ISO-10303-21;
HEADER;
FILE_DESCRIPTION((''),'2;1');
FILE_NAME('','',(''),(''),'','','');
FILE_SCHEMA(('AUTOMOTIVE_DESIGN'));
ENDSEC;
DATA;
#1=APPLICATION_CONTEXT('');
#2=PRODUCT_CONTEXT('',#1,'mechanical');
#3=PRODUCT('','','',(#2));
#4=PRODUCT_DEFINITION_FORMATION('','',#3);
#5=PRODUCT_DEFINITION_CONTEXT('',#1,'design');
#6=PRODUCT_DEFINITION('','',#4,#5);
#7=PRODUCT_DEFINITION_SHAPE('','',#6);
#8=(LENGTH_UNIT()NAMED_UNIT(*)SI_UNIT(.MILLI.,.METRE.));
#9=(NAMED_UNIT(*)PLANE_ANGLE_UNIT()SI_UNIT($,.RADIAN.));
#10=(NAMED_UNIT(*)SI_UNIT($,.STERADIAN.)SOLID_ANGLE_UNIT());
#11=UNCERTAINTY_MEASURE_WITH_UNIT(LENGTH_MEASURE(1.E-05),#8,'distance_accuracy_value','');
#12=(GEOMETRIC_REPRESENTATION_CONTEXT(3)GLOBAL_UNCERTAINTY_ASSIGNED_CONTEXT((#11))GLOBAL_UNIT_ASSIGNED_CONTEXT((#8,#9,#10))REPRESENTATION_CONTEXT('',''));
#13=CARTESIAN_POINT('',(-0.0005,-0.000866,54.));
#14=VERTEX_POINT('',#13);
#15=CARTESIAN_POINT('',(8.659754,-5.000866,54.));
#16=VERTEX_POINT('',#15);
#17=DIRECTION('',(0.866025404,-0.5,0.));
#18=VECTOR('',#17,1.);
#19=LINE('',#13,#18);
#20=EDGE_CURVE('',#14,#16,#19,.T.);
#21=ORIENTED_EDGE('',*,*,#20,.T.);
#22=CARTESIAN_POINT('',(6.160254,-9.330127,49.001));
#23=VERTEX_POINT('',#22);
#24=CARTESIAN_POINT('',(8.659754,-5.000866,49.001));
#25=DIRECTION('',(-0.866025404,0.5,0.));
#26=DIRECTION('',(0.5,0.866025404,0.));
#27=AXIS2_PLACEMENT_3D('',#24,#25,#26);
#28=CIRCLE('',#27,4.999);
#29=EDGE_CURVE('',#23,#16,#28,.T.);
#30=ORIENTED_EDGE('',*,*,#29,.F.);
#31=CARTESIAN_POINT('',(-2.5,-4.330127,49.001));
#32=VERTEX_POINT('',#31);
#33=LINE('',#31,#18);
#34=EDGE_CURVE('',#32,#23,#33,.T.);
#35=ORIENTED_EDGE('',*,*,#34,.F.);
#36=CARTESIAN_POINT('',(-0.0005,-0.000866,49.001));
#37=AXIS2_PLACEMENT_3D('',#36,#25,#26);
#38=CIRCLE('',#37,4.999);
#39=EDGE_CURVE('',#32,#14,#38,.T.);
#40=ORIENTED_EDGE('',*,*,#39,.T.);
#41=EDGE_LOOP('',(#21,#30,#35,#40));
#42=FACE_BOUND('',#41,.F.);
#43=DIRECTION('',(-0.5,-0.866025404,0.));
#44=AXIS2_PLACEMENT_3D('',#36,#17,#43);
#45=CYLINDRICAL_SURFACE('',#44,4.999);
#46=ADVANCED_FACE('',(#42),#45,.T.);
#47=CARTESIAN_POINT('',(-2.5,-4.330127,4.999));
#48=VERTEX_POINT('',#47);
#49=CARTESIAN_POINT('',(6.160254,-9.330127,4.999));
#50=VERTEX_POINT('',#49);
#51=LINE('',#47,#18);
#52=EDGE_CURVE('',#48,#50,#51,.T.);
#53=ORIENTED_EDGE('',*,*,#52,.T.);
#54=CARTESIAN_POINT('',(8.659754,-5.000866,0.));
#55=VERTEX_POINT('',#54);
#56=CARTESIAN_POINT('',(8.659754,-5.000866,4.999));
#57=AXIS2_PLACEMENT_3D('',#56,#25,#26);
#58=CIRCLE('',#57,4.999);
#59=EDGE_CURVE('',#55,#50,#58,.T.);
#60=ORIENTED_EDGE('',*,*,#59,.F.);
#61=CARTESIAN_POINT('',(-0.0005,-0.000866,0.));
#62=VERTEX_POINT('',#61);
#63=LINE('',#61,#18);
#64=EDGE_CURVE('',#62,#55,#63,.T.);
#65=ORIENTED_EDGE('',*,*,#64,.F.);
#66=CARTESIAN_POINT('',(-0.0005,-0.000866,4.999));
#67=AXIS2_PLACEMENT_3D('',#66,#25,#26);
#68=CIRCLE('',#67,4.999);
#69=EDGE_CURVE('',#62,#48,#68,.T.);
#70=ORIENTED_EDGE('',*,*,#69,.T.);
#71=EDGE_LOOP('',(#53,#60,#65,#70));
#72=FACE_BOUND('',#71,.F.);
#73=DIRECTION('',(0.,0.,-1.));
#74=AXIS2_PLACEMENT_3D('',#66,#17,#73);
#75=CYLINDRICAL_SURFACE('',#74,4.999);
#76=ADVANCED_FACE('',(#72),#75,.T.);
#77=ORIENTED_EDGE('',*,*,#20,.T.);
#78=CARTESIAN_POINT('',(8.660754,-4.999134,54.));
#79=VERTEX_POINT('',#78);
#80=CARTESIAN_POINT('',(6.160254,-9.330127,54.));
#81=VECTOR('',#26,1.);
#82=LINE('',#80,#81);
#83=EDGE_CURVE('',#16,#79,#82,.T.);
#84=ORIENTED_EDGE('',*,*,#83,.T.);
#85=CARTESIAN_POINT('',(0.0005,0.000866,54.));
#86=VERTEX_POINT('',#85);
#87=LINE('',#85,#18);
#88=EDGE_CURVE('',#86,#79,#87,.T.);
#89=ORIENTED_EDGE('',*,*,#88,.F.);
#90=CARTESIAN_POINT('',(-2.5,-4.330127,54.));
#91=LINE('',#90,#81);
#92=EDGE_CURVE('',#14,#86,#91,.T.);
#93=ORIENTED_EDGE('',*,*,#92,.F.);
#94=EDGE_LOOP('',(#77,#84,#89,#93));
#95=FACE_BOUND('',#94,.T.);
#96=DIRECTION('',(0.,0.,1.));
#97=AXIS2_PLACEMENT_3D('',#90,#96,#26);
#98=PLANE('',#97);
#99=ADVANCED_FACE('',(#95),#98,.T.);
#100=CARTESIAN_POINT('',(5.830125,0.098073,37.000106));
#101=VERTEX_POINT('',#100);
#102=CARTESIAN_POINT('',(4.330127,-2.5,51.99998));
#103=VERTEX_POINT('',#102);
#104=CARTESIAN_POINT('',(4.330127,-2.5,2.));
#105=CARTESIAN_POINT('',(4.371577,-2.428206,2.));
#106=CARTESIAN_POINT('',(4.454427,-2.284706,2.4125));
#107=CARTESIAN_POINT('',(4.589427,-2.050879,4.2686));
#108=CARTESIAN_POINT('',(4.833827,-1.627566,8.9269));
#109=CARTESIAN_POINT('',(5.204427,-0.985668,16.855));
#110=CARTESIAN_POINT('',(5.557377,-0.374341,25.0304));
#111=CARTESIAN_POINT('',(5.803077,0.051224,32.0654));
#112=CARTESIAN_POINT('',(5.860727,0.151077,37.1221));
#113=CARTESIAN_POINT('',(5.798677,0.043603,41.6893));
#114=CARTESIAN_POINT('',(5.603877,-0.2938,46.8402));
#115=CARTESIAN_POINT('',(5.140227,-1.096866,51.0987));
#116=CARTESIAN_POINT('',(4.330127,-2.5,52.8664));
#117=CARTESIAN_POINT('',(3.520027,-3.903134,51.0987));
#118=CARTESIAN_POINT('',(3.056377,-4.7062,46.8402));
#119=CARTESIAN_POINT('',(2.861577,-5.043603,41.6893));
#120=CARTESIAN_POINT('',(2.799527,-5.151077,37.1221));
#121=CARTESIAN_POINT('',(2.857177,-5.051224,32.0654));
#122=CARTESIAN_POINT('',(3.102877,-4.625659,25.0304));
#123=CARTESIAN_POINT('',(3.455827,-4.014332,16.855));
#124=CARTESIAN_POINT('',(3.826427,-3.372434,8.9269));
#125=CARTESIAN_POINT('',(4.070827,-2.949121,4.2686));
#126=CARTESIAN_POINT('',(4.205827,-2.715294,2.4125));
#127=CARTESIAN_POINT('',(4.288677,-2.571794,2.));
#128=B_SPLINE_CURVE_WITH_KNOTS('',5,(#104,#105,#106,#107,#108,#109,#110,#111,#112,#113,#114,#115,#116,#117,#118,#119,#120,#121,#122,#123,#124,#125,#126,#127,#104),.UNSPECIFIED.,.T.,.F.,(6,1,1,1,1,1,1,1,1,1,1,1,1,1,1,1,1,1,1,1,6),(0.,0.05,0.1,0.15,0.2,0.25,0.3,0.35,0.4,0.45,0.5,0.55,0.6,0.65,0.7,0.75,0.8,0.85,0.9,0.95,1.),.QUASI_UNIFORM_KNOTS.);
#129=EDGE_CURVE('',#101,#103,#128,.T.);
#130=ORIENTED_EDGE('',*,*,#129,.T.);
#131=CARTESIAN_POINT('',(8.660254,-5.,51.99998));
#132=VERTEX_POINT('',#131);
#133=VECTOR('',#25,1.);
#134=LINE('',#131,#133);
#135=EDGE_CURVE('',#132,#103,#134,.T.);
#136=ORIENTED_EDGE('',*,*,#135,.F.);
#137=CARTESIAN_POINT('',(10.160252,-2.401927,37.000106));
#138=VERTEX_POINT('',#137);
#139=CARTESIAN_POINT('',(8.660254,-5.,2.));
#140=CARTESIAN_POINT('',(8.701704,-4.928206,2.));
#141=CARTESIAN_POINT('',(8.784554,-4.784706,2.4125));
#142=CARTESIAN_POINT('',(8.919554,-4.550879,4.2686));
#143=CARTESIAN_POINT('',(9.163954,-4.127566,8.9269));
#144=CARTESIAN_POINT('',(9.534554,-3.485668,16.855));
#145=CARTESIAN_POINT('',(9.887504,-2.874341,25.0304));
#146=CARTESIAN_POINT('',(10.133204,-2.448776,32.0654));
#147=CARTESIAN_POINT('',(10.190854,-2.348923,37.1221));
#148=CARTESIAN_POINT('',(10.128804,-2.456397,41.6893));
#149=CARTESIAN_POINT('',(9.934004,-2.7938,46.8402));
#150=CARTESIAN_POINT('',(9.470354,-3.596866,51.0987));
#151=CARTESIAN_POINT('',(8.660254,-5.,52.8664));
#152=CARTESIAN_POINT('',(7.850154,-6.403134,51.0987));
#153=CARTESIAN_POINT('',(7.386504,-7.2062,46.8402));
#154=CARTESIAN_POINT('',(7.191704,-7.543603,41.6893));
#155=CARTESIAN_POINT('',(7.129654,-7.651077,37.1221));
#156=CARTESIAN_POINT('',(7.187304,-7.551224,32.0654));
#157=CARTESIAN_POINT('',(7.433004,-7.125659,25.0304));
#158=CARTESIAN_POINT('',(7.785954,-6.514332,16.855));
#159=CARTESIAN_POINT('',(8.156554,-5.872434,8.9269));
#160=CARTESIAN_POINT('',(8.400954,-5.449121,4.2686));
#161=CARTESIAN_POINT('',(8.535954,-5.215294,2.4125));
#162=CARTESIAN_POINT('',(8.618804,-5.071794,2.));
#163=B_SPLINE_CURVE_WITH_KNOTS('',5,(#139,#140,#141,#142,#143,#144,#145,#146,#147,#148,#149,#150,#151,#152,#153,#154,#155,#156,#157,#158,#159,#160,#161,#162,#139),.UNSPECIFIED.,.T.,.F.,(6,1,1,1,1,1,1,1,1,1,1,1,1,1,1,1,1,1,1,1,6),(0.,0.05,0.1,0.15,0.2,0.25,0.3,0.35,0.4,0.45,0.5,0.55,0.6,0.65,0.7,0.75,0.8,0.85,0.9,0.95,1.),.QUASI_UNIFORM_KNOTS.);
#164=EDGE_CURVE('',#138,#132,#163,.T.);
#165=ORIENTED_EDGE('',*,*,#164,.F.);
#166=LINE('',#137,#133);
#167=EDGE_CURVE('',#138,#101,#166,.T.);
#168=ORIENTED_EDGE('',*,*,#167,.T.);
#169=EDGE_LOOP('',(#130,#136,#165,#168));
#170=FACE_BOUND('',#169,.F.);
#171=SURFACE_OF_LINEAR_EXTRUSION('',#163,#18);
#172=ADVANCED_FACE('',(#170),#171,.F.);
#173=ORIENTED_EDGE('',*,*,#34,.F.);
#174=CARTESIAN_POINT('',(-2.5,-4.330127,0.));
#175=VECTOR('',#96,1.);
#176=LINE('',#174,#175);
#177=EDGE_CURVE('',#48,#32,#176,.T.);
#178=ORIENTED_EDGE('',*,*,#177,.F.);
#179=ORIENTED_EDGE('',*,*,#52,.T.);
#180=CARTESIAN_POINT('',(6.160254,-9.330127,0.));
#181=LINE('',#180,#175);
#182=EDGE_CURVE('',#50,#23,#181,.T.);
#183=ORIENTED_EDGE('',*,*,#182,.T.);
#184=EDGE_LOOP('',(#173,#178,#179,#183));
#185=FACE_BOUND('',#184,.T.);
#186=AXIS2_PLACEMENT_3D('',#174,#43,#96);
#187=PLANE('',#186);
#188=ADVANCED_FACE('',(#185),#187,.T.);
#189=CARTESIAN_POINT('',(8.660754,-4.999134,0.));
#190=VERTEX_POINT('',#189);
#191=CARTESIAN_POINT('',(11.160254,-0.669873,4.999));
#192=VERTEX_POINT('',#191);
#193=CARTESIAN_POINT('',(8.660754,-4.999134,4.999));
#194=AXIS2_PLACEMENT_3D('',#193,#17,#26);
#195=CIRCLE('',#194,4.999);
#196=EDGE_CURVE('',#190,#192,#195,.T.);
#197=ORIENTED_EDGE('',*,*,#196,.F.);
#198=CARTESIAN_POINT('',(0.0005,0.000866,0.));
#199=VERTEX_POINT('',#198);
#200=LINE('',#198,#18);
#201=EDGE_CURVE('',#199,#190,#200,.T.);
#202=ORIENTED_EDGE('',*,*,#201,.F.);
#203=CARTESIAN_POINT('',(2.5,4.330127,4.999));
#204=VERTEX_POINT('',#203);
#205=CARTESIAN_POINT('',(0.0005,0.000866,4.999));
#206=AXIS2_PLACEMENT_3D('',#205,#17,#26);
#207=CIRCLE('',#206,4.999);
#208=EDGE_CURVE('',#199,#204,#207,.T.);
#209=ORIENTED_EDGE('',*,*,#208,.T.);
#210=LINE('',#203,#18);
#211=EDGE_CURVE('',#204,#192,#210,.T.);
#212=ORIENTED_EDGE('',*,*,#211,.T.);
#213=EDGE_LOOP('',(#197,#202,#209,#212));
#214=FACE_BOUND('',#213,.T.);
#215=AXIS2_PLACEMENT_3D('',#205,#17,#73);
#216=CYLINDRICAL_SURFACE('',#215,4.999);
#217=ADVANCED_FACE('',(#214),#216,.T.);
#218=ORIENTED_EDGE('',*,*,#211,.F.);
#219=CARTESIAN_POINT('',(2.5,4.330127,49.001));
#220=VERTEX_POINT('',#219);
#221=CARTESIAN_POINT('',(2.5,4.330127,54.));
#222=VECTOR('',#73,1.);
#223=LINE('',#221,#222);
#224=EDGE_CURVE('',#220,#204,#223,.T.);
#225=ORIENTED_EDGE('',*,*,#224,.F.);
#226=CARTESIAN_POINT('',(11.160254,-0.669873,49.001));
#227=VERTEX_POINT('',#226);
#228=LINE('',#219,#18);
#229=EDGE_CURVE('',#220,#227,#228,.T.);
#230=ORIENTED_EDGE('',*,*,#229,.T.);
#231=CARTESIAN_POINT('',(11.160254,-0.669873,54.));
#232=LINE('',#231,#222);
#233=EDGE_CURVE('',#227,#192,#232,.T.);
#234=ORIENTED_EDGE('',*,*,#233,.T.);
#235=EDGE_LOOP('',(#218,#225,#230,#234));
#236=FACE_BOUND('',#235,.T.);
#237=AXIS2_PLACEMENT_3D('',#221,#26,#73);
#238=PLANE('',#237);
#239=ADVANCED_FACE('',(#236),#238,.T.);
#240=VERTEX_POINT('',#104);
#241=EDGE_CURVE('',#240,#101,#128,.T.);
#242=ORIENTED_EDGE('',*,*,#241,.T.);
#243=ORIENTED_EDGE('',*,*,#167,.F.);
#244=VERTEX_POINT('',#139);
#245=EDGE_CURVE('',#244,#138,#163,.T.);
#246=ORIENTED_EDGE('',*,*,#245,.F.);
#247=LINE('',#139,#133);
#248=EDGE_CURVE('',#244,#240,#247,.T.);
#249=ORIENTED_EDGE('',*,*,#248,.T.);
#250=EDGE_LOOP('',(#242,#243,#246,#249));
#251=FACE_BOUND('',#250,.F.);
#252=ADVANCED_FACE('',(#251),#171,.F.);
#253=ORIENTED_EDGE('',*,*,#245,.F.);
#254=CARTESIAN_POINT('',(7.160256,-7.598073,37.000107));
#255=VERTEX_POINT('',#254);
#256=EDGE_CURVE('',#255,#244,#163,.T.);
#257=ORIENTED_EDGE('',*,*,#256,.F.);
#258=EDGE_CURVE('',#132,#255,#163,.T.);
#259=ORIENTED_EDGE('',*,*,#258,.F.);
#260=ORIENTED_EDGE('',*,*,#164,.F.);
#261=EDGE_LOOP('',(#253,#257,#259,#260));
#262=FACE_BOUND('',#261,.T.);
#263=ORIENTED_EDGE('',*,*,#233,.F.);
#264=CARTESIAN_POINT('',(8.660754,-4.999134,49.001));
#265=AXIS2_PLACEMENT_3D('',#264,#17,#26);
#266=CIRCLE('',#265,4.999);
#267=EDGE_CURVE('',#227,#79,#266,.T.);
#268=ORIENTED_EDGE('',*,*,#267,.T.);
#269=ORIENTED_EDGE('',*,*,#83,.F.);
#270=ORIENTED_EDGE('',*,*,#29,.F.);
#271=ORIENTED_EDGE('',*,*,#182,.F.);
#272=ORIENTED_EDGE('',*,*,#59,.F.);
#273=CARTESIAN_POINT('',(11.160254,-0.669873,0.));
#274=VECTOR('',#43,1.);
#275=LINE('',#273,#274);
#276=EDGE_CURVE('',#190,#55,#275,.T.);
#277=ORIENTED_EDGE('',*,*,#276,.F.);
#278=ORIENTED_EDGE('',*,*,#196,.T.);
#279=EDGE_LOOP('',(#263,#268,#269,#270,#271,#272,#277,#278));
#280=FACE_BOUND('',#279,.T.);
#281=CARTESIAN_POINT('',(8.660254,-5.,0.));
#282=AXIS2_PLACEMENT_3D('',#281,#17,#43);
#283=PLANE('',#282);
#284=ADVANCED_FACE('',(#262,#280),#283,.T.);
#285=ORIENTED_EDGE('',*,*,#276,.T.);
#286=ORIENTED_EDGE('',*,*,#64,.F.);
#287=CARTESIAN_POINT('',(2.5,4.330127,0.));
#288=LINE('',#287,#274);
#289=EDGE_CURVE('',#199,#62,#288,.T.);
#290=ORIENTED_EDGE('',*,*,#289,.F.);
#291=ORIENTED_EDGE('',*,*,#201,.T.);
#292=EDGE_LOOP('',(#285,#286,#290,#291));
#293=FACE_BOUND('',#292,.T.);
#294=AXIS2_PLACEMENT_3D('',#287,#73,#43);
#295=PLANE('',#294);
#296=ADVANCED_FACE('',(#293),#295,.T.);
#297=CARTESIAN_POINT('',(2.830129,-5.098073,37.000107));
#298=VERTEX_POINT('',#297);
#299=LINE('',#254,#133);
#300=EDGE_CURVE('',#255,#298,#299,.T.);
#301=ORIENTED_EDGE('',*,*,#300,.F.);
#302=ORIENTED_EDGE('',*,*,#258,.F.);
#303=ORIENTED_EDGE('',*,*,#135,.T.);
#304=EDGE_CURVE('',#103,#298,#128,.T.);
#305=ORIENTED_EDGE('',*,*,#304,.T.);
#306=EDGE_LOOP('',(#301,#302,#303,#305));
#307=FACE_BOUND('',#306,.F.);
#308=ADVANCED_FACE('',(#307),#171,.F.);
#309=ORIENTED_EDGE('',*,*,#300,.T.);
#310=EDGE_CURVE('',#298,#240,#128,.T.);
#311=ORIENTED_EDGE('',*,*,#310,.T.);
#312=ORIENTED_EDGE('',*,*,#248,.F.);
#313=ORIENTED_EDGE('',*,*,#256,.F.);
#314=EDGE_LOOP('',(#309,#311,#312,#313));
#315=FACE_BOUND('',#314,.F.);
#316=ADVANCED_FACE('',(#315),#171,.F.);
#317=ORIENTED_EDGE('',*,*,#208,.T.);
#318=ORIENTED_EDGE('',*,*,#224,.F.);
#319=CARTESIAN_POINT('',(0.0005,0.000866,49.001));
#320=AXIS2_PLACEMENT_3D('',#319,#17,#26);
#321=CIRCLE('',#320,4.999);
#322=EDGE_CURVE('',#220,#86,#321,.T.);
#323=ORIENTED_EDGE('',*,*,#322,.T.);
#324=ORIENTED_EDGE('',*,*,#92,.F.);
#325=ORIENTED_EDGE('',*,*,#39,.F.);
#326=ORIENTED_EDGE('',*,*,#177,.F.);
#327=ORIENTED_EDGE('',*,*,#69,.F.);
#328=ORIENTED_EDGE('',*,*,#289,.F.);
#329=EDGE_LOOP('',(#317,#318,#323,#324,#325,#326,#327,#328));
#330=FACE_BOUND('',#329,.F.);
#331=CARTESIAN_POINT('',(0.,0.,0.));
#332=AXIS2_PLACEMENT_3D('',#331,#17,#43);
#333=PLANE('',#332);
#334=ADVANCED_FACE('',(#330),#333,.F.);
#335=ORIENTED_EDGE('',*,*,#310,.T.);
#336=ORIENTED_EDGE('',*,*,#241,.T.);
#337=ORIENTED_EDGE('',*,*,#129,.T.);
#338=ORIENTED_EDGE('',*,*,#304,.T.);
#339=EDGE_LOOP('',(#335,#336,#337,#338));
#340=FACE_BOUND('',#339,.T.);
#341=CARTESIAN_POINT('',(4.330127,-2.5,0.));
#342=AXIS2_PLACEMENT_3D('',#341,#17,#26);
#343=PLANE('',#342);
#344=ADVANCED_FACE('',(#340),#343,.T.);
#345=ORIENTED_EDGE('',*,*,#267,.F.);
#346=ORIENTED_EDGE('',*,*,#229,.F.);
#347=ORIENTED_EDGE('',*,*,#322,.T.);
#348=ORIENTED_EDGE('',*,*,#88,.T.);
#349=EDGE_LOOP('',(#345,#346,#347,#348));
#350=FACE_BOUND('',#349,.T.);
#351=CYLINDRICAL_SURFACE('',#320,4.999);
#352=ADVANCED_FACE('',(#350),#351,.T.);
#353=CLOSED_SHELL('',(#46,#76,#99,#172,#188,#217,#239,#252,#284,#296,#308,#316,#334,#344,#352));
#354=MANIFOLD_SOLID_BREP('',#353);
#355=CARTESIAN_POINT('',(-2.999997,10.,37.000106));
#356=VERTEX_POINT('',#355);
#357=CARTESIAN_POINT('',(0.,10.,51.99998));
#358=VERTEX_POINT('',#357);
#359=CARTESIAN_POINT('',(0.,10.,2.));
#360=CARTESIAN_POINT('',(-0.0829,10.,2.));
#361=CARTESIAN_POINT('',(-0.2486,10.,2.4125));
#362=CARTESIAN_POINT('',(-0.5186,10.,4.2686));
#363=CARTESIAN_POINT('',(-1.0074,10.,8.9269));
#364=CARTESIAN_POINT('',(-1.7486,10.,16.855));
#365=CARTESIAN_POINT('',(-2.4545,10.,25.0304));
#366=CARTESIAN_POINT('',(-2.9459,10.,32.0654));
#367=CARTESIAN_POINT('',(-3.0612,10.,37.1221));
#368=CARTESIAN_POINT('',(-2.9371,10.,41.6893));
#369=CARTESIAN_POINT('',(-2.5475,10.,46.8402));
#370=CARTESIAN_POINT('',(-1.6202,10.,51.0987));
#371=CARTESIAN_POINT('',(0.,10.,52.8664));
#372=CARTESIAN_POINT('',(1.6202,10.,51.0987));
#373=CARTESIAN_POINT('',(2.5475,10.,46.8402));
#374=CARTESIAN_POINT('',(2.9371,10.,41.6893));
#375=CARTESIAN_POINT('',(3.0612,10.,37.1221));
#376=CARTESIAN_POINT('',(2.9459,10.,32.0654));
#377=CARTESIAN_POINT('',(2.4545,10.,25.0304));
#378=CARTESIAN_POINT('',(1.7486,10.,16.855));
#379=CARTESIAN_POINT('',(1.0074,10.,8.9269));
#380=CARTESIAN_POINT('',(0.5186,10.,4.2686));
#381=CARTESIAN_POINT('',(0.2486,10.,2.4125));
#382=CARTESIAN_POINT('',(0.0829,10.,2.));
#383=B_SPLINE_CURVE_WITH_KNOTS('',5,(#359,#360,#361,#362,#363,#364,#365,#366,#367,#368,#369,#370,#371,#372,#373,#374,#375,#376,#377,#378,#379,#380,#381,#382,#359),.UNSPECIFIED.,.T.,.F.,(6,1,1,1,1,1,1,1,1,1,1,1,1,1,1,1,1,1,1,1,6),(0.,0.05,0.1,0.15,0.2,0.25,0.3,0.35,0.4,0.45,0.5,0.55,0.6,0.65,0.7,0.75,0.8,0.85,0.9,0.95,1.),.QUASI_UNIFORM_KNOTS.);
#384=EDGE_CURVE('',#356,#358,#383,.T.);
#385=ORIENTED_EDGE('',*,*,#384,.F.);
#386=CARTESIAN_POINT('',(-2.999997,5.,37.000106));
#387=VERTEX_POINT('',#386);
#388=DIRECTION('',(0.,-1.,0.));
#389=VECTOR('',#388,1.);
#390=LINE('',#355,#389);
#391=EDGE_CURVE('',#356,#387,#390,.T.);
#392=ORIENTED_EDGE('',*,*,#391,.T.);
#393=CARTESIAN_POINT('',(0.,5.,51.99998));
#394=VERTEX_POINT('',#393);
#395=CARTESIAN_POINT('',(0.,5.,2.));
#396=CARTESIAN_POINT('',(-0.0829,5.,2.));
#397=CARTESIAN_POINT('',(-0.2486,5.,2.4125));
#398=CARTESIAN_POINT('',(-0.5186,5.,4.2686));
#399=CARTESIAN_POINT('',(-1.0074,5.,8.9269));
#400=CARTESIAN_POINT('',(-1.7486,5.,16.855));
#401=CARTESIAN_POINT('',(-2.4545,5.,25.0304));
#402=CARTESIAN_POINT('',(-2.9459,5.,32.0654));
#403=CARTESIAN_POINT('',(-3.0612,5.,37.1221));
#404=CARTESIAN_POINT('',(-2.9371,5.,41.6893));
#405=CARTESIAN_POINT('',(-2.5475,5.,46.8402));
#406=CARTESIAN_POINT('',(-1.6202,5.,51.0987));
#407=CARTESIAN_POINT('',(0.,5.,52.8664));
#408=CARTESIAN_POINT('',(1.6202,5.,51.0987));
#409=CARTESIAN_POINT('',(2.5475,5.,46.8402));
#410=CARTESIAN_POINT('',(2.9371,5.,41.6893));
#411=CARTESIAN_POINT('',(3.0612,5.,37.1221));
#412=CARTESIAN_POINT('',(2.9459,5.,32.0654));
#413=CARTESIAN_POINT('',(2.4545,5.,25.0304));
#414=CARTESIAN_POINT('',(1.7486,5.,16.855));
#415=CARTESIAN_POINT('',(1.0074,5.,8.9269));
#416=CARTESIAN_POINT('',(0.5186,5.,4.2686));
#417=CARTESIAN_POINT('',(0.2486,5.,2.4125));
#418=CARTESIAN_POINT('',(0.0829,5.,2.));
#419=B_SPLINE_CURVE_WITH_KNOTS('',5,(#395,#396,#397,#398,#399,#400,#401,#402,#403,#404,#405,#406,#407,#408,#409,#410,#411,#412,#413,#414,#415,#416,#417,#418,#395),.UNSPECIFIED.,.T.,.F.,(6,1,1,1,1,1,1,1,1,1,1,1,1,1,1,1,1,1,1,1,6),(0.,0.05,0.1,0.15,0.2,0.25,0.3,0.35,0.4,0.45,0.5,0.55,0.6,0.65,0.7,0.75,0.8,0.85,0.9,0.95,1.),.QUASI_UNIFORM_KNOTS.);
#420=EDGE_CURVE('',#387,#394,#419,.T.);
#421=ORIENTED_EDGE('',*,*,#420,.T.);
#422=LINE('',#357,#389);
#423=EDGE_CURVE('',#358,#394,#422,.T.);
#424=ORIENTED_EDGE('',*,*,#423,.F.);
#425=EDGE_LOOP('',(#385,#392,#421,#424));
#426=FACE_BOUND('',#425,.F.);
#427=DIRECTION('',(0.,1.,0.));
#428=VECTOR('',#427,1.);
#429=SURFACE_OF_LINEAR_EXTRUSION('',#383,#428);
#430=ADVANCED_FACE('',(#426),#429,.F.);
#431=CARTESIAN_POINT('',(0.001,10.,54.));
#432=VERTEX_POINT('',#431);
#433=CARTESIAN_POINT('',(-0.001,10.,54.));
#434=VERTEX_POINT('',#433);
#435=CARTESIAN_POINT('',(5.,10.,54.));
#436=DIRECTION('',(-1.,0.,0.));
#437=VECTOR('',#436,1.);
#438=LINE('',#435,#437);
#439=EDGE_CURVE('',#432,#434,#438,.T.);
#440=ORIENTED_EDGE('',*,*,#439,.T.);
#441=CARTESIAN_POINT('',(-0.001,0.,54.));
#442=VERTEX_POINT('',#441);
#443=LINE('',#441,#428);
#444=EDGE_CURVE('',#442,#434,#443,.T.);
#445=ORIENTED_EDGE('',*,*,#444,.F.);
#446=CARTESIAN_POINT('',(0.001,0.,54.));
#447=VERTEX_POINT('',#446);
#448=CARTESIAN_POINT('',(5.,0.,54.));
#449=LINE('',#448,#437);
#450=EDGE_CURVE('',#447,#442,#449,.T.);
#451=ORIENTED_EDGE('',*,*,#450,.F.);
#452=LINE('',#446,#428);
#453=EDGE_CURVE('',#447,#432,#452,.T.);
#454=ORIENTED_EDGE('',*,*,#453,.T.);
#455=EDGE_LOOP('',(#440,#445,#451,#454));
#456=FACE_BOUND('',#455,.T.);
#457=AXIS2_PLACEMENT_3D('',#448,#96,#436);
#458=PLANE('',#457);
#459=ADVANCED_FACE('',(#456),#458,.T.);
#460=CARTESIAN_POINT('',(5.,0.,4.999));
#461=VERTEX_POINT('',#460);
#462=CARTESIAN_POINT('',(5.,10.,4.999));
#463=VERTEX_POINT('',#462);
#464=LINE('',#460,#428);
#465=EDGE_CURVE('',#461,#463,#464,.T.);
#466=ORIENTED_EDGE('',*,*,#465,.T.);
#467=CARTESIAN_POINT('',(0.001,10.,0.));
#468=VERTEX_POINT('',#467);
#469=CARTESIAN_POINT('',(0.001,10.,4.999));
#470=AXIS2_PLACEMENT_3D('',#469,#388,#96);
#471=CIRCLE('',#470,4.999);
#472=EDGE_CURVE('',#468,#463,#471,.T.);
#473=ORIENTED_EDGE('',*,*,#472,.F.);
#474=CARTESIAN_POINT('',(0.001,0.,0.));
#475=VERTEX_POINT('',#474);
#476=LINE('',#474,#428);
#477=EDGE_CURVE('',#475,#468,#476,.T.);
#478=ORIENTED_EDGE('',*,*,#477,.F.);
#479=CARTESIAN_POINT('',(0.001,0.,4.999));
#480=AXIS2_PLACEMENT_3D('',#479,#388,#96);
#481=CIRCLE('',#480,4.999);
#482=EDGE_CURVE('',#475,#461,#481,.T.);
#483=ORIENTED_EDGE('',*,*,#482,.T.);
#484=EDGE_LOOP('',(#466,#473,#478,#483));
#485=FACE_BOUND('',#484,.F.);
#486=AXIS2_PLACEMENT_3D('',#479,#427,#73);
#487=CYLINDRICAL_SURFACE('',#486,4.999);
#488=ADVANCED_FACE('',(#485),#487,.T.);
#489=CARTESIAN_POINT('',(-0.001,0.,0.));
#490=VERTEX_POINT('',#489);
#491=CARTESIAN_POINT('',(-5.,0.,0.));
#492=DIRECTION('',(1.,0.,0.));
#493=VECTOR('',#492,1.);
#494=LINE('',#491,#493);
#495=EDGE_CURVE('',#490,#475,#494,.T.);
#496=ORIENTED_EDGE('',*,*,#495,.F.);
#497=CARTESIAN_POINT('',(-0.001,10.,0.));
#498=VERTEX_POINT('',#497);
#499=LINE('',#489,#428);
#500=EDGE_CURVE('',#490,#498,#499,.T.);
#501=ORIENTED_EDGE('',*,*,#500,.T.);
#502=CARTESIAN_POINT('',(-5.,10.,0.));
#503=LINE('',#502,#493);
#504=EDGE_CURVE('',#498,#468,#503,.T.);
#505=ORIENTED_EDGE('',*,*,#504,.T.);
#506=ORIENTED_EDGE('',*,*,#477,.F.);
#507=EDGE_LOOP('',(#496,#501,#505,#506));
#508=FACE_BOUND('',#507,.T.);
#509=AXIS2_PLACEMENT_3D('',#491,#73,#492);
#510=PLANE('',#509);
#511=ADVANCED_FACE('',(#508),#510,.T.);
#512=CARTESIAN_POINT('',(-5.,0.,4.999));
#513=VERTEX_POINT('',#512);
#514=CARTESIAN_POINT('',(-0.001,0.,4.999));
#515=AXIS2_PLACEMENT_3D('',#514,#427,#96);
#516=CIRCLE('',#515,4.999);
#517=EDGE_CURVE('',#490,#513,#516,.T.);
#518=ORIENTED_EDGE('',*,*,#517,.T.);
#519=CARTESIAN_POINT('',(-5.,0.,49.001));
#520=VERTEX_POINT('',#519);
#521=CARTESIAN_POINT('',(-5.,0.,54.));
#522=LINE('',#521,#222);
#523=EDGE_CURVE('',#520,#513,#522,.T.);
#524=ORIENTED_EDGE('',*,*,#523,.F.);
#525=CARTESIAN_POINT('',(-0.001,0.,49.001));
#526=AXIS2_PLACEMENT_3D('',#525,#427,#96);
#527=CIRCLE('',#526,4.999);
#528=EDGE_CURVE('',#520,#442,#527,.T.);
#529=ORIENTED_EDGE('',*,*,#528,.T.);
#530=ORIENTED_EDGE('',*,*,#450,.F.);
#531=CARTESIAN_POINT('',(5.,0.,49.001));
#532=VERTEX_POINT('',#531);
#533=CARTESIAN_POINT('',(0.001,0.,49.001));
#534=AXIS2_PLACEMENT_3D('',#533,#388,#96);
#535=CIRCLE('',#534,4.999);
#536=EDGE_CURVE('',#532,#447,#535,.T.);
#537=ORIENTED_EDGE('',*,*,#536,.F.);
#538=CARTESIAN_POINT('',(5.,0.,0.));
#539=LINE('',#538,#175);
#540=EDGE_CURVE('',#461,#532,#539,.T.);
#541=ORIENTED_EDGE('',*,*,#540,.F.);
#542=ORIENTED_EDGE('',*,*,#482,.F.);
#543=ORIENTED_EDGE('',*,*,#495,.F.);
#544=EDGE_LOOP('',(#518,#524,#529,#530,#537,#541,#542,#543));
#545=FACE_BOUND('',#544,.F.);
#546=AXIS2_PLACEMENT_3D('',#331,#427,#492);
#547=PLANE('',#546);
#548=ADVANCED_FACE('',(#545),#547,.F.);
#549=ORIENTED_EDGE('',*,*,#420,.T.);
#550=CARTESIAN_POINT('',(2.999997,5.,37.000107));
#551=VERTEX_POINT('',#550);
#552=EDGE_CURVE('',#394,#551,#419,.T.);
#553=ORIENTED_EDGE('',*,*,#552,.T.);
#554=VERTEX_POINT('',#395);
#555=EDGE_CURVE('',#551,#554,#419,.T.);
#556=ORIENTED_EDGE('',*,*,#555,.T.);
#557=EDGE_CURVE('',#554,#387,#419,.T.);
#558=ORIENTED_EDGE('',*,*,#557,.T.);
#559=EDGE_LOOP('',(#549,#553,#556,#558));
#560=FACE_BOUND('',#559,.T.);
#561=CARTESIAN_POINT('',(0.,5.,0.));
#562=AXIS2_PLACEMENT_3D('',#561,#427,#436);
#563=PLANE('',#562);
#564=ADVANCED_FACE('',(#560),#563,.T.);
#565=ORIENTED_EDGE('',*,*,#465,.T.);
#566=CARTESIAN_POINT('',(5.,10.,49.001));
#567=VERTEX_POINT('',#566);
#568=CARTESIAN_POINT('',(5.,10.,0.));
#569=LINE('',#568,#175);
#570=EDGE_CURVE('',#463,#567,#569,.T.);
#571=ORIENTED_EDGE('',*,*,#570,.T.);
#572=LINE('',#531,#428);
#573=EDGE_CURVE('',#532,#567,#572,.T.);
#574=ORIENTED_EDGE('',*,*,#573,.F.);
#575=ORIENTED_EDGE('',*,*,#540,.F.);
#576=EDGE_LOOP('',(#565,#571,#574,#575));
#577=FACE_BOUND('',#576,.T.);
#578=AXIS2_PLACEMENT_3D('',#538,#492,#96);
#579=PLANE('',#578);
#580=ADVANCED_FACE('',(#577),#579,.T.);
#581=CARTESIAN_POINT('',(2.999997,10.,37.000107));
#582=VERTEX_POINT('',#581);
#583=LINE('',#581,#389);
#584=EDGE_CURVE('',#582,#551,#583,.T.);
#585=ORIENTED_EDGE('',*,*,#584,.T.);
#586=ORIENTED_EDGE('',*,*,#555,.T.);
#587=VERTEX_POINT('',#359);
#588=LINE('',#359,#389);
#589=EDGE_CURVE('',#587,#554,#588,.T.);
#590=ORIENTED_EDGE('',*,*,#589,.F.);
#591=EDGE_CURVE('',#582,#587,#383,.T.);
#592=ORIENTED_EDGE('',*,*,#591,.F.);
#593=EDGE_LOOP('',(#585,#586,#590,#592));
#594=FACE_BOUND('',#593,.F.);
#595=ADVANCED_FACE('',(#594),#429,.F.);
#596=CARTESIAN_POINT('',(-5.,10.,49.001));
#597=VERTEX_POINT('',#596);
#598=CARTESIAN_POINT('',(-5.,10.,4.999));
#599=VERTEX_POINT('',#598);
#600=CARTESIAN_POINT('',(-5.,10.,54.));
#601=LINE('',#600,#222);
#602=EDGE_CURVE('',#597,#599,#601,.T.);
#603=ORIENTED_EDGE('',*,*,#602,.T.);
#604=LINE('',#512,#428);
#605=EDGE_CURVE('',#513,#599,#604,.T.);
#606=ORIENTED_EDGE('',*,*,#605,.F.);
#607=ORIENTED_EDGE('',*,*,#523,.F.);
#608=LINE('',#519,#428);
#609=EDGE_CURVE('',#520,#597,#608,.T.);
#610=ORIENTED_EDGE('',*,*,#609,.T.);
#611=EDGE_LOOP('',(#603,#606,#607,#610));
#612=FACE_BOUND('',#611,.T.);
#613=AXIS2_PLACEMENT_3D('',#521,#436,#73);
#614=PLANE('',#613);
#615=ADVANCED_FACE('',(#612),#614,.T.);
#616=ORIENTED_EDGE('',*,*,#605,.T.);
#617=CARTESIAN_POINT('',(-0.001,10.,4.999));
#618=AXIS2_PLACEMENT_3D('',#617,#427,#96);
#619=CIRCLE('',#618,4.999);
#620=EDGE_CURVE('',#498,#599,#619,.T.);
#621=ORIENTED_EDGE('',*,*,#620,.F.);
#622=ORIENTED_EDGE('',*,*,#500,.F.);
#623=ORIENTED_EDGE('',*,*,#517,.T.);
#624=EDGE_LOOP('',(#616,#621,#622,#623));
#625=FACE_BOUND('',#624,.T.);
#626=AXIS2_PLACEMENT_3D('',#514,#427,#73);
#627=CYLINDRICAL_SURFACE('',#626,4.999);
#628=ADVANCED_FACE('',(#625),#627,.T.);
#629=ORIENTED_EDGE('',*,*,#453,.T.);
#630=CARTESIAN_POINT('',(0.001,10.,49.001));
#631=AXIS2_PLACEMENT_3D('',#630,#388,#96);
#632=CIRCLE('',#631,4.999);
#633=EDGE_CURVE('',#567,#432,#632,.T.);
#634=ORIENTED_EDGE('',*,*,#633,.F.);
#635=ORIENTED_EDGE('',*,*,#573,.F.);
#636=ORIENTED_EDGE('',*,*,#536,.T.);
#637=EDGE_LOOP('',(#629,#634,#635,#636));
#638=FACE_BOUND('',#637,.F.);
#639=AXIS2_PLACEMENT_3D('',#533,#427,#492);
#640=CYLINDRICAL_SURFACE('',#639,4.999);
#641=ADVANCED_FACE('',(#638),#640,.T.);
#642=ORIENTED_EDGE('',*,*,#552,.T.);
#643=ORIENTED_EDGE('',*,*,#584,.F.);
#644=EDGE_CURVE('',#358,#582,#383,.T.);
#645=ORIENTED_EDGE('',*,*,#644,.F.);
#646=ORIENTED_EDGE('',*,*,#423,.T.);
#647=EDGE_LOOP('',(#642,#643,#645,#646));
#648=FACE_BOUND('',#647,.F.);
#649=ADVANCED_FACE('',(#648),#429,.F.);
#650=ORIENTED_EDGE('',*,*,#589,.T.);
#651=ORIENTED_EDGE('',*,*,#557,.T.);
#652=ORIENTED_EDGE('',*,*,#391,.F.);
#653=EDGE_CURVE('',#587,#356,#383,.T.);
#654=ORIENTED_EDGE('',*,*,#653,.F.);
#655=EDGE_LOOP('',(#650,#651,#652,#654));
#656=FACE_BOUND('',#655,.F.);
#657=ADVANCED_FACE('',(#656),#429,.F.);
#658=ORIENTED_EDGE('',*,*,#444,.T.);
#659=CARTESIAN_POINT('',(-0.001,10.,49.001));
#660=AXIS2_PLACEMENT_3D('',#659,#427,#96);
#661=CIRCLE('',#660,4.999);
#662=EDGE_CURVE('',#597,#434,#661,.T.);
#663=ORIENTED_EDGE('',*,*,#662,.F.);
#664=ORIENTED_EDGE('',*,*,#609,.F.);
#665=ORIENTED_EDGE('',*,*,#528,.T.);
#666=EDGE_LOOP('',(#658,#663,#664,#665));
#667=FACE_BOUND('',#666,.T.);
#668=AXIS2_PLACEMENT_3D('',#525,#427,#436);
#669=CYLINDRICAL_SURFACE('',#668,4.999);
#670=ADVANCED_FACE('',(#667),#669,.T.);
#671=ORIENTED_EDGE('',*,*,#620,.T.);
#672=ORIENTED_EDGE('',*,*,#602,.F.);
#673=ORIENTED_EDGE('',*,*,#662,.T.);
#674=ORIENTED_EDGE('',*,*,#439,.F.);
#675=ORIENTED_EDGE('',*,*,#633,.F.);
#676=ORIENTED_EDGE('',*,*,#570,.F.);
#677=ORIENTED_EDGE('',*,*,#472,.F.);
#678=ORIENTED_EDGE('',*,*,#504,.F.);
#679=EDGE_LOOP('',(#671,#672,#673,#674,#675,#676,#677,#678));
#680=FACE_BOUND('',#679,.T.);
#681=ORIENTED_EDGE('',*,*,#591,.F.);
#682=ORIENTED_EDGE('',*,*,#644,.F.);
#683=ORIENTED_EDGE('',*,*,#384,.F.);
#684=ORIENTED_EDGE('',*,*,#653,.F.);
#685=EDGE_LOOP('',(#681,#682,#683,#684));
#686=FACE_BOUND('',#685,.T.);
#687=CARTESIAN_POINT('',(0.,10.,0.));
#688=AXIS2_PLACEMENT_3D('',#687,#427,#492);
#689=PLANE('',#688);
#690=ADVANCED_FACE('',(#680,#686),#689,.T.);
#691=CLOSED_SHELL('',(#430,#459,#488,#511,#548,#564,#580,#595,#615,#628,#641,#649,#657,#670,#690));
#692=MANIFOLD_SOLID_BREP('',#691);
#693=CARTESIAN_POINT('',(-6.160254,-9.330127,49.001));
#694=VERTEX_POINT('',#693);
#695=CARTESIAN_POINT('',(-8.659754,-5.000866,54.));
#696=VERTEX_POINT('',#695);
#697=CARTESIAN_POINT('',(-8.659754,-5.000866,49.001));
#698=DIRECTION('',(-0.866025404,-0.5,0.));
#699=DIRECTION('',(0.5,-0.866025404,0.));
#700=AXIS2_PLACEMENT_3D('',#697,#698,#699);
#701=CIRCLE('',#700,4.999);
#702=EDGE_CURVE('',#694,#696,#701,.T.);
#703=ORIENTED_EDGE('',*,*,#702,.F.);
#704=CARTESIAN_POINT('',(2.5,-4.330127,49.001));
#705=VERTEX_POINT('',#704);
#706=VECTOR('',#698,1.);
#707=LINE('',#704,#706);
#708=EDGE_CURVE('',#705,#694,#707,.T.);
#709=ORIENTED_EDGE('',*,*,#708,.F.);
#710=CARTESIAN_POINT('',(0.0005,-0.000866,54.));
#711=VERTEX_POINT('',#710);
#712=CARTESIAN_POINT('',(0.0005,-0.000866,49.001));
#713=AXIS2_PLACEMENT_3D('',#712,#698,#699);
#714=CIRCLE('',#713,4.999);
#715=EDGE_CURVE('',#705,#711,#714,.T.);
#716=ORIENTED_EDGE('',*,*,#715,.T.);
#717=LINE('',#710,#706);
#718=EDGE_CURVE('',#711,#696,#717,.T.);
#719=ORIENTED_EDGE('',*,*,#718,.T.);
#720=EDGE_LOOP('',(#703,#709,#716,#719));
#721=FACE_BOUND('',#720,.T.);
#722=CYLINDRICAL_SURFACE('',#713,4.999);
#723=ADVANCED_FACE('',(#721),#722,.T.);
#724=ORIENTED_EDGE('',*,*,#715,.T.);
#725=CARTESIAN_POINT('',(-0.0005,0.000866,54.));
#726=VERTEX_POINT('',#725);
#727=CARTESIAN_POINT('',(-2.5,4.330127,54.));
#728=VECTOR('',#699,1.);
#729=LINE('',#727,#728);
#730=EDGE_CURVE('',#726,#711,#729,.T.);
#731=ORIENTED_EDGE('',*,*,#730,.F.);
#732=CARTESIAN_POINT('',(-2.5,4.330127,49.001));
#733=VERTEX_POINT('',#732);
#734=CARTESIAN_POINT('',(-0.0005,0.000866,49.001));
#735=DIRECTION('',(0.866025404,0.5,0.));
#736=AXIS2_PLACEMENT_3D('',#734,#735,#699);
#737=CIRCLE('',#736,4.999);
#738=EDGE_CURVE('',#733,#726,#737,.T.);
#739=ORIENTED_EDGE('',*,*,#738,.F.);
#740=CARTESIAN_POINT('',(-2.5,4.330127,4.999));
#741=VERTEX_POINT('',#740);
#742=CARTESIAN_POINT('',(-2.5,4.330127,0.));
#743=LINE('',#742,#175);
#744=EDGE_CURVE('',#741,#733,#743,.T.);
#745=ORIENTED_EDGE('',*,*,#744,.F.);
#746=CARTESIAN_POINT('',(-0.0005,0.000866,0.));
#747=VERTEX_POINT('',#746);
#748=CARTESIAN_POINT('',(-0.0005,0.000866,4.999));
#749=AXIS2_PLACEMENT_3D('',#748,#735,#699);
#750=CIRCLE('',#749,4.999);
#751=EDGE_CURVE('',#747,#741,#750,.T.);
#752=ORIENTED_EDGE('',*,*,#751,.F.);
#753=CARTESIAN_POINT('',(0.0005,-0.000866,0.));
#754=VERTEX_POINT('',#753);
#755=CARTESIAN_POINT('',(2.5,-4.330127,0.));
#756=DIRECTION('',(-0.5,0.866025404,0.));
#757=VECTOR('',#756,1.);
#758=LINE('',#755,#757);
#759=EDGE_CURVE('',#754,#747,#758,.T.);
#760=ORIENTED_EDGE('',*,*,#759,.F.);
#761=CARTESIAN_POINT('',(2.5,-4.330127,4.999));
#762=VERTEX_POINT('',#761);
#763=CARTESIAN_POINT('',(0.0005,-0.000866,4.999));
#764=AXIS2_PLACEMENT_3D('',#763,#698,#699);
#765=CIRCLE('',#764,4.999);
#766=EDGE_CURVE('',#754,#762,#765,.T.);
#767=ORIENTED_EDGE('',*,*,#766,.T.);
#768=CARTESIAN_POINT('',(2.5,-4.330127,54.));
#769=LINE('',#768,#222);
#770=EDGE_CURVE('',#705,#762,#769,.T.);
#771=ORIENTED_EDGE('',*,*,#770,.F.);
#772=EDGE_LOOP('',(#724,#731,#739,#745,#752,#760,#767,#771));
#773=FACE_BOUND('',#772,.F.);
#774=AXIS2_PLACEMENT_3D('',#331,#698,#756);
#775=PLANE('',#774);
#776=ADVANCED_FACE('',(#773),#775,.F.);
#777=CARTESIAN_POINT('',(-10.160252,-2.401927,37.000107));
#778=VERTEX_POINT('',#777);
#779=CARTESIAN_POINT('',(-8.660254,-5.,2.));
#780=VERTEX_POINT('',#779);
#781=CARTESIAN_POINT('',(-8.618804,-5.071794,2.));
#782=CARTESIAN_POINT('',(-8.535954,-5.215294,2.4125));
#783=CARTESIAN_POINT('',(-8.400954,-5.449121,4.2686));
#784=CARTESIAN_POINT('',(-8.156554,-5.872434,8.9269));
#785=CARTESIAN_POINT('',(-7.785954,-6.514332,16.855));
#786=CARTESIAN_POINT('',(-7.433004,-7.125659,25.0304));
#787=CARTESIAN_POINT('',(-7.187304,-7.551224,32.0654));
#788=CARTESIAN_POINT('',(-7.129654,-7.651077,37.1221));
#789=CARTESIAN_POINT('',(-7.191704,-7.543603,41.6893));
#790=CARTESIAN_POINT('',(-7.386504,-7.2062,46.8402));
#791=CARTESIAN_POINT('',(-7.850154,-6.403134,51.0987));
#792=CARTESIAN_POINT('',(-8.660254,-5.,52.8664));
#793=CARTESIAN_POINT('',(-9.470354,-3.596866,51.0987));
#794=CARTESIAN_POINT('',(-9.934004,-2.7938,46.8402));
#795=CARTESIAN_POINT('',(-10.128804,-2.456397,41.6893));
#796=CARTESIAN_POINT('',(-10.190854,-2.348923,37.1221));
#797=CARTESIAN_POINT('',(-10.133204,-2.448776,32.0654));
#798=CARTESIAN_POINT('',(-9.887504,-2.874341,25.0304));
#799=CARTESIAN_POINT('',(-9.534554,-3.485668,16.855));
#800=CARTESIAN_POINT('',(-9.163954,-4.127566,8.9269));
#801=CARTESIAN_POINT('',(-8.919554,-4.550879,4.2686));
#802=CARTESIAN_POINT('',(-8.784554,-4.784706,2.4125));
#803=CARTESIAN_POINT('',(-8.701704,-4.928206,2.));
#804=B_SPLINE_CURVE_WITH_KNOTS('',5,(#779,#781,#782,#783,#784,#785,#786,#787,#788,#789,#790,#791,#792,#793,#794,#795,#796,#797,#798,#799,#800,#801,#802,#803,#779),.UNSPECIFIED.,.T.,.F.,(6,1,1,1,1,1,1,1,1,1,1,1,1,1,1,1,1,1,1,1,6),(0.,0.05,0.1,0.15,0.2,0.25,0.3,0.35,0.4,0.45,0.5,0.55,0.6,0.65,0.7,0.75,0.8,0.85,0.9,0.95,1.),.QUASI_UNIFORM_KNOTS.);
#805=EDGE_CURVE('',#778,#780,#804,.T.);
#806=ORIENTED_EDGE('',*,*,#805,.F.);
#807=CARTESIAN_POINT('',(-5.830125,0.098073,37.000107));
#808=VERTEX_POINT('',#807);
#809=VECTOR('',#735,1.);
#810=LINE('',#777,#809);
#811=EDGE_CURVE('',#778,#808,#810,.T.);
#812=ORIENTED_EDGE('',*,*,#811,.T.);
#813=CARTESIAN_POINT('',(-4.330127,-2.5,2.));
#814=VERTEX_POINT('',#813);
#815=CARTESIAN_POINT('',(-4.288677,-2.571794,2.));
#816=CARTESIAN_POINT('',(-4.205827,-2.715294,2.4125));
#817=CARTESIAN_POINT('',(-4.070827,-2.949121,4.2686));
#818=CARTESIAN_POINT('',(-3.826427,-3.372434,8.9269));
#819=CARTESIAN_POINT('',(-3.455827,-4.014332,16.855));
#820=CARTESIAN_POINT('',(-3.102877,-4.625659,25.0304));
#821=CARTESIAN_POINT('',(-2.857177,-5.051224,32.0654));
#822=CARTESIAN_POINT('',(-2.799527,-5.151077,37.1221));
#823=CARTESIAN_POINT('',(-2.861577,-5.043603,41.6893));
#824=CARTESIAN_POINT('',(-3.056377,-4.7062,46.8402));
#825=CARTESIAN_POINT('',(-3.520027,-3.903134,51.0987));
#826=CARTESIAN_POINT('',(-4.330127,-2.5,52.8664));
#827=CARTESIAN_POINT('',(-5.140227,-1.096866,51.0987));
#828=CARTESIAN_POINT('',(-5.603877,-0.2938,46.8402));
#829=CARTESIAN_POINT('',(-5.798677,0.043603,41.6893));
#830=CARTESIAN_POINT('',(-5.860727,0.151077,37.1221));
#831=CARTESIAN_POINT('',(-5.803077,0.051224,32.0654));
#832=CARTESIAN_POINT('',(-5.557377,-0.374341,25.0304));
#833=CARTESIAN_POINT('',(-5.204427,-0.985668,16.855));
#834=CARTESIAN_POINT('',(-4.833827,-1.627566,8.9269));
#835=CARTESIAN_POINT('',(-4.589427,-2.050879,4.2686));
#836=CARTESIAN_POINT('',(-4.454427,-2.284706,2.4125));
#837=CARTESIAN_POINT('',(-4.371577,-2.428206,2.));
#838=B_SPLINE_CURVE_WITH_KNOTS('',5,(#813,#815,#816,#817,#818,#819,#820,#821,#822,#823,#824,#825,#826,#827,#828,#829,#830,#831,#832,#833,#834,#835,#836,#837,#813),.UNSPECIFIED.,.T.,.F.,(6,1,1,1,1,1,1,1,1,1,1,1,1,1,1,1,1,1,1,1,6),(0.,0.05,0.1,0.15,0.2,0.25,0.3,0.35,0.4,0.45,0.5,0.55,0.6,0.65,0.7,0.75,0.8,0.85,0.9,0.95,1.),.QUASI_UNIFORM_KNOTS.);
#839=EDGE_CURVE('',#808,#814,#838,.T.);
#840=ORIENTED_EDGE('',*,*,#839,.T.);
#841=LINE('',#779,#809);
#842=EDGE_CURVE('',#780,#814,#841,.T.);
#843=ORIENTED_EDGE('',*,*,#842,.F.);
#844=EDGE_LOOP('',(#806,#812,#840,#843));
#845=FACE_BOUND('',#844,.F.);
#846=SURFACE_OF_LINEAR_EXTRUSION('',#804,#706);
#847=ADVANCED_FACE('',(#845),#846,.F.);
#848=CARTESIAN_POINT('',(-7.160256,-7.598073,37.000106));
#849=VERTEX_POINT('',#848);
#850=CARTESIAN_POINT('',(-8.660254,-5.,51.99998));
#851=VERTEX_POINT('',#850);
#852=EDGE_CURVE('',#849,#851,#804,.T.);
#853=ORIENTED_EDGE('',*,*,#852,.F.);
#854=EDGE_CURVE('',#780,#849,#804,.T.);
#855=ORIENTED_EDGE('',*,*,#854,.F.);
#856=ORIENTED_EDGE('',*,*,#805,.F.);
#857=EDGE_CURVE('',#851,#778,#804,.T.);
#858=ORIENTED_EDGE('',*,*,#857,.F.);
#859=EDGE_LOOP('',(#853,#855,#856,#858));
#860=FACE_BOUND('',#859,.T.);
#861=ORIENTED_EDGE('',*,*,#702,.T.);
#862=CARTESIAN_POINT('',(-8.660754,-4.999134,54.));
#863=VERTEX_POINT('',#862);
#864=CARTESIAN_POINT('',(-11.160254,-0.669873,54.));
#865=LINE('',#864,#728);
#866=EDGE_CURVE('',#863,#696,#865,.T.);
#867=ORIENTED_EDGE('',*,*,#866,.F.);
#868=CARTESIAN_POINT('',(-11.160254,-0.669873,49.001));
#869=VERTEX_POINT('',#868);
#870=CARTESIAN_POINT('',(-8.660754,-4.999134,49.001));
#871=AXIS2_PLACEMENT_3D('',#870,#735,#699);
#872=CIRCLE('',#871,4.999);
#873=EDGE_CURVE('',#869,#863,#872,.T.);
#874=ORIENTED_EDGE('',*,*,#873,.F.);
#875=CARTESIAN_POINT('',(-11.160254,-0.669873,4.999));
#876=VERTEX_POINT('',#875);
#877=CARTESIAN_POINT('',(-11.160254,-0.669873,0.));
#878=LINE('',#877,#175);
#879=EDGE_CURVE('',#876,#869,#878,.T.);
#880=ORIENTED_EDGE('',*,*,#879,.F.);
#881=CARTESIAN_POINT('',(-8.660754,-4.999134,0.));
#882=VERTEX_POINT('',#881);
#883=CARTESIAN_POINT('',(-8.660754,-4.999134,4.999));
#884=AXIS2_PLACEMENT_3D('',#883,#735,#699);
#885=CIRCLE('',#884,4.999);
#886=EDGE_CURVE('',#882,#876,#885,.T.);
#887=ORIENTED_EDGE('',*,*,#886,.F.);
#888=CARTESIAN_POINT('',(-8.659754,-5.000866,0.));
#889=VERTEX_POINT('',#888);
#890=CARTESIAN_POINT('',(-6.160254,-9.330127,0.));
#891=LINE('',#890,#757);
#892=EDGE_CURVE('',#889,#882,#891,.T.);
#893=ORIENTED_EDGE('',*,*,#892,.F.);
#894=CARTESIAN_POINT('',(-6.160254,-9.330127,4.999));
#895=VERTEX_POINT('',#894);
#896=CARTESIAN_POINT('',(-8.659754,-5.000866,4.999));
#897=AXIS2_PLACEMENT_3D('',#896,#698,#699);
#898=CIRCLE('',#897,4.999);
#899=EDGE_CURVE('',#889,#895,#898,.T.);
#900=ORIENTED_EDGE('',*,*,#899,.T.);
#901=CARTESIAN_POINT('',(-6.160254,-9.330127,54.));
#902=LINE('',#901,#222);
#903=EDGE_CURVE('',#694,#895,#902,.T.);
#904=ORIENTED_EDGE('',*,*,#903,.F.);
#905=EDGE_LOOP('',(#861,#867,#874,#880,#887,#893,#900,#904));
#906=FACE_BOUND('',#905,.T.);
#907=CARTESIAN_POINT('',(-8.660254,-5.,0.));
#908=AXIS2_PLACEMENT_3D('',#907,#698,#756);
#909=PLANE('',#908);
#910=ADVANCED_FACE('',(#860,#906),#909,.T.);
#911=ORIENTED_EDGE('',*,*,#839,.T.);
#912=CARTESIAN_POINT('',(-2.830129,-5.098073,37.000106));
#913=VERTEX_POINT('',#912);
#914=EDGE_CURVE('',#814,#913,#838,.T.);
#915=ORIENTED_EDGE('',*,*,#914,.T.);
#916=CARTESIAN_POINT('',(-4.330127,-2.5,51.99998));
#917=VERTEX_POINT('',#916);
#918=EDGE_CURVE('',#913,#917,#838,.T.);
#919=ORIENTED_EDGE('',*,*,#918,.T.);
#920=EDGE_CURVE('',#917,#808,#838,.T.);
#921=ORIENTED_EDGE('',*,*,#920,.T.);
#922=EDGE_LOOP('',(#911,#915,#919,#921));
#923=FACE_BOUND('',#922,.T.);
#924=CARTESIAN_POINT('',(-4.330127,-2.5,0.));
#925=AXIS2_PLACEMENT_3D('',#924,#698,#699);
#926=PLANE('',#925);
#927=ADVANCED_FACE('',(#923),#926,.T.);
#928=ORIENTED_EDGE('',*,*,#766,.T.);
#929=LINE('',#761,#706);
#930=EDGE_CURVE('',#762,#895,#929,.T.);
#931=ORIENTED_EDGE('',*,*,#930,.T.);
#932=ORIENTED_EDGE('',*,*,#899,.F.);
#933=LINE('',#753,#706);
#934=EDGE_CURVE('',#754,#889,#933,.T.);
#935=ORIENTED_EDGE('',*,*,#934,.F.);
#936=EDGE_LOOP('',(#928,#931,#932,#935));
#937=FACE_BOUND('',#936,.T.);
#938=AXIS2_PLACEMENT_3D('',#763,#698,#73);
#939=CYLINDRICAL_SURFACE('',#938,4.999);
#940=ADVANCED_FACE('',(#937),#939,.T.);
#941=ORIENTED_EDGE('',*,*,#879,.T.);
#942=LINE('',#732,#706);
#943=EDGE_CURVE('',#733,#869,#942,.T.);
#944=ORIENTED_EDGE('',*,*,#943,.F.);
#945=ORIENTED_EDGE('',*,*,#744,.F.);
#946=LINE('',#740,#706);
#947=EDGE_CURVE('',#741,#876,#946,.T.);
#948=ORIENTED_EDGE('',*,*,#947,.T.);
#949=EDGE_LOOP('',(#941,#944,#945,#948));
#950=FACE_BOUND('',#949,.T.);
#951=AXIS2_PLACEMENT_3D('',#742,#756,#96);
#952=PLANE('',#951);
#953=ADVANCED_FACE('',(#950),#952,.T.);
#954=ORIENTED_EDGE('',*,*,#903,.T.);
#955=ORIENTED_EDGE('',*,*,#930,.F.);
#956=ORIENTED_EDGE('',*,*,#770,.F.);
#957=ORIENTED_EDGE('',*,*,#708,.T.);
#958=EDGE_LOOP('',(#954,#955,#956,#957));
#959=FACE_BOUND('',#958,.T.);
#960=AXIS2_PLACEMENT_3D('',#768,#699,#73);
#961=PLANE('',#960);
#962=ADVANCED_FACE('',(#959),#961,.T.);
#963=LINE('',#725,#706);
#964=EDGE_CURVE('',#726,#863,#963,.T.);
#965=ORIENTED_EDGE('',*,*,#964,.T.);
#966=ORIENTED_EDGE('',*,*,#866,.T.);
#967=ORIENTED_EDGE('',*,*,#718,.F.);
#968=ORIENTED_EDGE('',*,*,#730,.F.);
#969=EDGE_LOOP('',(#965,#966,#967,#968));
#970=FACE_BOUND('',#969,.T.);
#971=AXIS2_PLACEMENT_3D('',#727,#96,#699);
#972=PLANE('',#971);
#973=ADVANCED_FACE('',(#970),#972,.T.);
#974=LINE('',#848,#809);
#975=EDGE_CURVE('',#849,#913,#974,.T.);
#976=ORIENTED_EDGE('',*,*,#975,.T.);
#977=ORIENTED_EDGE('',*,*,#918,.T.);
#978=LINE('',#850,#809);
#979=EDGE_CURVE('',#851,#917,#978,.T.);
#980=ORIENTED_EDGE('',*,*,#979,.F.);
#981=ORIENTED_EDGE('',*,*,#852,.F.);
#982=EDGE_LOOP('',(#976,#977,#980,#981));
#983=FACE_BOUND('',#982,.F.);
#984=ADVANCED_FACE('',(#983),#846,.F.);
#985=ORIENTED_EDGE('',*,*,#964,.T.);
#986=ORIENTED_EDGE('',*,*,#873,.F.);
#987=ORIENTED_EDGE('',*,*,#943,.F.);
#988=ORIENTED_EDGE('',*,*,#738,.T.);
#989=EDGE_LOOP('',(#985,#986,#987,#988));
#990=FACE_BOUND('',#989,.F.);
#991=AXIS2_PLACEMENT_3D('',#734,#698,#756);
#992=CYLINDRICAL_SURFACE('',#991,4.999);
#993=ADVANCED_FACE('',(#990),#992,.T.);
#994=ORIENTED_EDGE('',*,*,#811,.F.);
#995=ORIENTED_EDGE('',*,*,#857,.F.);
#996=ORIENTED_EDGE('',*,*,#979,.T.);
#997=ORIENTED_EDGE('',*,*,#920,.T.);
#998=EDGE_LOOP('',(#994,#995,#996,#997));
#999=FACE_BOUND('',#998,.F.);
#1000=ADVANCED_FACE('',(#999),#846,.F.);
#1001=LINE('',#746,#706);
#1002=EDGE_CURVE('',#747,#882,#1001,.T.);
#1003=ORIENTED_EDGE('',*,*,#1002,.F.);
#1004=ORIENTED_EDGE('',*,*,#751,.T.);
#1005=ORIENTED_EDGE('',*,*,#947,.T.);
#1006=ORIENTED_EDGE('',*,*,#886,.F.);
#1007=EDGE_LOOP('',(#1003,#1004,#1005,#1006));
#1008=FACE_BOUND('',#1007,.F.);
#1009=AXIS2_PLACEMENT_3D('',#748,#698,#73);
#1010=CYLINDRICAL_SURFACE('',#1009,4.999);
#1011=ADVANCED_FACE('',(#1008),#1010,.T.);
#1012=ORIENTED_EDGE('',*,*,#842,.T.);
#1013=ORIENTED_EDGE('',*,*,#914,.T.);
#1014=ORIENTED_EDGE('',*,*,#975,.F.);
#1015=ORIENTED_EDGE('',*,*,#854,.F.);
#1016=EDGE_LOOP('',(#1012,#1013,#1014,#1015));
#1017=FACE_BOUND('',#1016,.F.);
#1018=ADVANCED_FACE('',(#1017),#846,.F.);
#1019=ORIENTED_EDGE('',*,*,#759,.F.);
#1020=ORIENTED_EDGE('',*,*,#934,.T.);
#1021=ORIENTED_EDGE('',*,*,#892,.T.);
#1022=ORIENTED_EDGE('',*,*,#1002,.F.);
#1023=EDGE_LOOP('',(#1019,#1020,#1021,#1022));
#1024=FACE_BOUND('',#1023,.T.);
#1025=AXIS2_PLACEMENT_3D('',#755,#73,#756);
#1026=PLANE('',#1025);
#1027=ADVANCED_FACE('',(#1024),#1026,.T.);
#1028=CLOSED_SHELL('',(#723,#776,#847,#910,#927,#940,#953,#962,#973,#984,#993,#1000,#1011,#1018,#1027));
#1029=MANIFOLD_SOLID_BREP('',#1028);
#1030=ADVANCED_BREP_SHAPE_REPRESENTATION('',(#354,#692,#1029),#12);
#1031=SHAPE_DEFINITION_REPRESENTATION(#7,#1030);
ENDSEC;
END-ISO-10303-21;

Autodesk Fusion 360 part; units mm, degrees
sketch "Sketch1" plane through (0, 0, 0) normal (0, 1, 0) x (1, 0, 0)
  line L0 (-5, 0) -> (5, 0)
  line L1 (5, 0) -> (5, -54)
  line L2 (5, -54) -> (-5, -54)
  line L3 (-5, -54) -> (-5, 0)
  dimension "d1" = 10
  dimension "d2" = 54
  dimension "d3" = 5
extrude "Extrude1" add sketch "Sketch1" along normal blind 10 makes body 1
sketch "Sketch2" plane through (0, 10, 0) normal (0, 1, 0) x (-1, 0, 0)
  line L0 (5, 54) -> (-5, 54)
  line L1 (-5, 54) -> (-5, 0)
  line L2 (-5, 0) -> (5, 0)
  line L3 (5, 0) -> (5, 54)
  spline S0 degree 5 poles (0, 2) (0.0829, 2) (0.2486, 2.4125) (0.5186, 4.2686) (1.0074, 8.9269) (1.7486, 16.855) (2.4545, 25.0304) (2.9459, 32.0654) (3.0612, 37.1221) (2.9371, 41.6893) (2.5475, 46.8402) (1.6202, 51.0987) (0, 52.8664) (-1.6202, 51.0987) (-2.5475, 46.8402) (-2.9371, 41.6893) (-3.0612, 37.1221) (-2.9459, 32.0654) (-2.4545, 25.0304) (-1.7486, 16.855) (-1.0074, 8.9269) (-0.5186, 4.2686) (-0.2486, 2.4125) (-0.0829, 2) (0, 2) knots 0 0 0 0 0 0 0.05 0.1 0.15 0.2 0.25 0.3 0.35 0.4 0.45 0.5 0.55 0.6 0.65 0.7 0.75 0.8 0.85 0.9 0.95 1 1 1 1 1 1
  line L4 (3, 32) -> (3, 42)
  line L5 (-3, 42) -> (-3, 32)
  line L6 (1.5, 52) -> (-1.5, 52)
  line L7 (-0.25, 2) -> (0.25, 2)
  point P0 (3, 37)
  point P1 (0, 52)
  point P2 (-3, 37)
  dimension "d13" = 35
  dimension "d14" = 15
  dimension "d15" = 0.5
  dimension "d16" = 3
  dimension "d17" = 10
  dimension "d18" = 6
  dimension "d19" = 3
  dimension "d20" = 2
extrude "Extrude2" cut sketch "Sketch2" against normal blind 5 contours S0 bodies 1
pattern_circular "C-Pattern1" count 3 over 360 about axis through (0, 0, 1.75) along (0, 0, 1) of bodies 1 makes body 2 at (0.8333, -1.4434, 18) makes body 3 at (0.8333, 1.4434, 18)
fillet "Fillet1" radius 5 12 edges at (5, 5, 54) (-5, 5, 54) (5, 5, 0) (-5, 5, 0) (-6.8301, 1.8301, 54) (-1.8301, -6.8301, 54) (-1.8301, -6.8301, 0) (-6.8301, 1.8301, 0) (6.8301, 1.8301, 54) (1.8301, -6.8301, 54) (1.8301, -6.8301, 0) (6.8301, 1.8301, 0) on bodies 1 2 3
